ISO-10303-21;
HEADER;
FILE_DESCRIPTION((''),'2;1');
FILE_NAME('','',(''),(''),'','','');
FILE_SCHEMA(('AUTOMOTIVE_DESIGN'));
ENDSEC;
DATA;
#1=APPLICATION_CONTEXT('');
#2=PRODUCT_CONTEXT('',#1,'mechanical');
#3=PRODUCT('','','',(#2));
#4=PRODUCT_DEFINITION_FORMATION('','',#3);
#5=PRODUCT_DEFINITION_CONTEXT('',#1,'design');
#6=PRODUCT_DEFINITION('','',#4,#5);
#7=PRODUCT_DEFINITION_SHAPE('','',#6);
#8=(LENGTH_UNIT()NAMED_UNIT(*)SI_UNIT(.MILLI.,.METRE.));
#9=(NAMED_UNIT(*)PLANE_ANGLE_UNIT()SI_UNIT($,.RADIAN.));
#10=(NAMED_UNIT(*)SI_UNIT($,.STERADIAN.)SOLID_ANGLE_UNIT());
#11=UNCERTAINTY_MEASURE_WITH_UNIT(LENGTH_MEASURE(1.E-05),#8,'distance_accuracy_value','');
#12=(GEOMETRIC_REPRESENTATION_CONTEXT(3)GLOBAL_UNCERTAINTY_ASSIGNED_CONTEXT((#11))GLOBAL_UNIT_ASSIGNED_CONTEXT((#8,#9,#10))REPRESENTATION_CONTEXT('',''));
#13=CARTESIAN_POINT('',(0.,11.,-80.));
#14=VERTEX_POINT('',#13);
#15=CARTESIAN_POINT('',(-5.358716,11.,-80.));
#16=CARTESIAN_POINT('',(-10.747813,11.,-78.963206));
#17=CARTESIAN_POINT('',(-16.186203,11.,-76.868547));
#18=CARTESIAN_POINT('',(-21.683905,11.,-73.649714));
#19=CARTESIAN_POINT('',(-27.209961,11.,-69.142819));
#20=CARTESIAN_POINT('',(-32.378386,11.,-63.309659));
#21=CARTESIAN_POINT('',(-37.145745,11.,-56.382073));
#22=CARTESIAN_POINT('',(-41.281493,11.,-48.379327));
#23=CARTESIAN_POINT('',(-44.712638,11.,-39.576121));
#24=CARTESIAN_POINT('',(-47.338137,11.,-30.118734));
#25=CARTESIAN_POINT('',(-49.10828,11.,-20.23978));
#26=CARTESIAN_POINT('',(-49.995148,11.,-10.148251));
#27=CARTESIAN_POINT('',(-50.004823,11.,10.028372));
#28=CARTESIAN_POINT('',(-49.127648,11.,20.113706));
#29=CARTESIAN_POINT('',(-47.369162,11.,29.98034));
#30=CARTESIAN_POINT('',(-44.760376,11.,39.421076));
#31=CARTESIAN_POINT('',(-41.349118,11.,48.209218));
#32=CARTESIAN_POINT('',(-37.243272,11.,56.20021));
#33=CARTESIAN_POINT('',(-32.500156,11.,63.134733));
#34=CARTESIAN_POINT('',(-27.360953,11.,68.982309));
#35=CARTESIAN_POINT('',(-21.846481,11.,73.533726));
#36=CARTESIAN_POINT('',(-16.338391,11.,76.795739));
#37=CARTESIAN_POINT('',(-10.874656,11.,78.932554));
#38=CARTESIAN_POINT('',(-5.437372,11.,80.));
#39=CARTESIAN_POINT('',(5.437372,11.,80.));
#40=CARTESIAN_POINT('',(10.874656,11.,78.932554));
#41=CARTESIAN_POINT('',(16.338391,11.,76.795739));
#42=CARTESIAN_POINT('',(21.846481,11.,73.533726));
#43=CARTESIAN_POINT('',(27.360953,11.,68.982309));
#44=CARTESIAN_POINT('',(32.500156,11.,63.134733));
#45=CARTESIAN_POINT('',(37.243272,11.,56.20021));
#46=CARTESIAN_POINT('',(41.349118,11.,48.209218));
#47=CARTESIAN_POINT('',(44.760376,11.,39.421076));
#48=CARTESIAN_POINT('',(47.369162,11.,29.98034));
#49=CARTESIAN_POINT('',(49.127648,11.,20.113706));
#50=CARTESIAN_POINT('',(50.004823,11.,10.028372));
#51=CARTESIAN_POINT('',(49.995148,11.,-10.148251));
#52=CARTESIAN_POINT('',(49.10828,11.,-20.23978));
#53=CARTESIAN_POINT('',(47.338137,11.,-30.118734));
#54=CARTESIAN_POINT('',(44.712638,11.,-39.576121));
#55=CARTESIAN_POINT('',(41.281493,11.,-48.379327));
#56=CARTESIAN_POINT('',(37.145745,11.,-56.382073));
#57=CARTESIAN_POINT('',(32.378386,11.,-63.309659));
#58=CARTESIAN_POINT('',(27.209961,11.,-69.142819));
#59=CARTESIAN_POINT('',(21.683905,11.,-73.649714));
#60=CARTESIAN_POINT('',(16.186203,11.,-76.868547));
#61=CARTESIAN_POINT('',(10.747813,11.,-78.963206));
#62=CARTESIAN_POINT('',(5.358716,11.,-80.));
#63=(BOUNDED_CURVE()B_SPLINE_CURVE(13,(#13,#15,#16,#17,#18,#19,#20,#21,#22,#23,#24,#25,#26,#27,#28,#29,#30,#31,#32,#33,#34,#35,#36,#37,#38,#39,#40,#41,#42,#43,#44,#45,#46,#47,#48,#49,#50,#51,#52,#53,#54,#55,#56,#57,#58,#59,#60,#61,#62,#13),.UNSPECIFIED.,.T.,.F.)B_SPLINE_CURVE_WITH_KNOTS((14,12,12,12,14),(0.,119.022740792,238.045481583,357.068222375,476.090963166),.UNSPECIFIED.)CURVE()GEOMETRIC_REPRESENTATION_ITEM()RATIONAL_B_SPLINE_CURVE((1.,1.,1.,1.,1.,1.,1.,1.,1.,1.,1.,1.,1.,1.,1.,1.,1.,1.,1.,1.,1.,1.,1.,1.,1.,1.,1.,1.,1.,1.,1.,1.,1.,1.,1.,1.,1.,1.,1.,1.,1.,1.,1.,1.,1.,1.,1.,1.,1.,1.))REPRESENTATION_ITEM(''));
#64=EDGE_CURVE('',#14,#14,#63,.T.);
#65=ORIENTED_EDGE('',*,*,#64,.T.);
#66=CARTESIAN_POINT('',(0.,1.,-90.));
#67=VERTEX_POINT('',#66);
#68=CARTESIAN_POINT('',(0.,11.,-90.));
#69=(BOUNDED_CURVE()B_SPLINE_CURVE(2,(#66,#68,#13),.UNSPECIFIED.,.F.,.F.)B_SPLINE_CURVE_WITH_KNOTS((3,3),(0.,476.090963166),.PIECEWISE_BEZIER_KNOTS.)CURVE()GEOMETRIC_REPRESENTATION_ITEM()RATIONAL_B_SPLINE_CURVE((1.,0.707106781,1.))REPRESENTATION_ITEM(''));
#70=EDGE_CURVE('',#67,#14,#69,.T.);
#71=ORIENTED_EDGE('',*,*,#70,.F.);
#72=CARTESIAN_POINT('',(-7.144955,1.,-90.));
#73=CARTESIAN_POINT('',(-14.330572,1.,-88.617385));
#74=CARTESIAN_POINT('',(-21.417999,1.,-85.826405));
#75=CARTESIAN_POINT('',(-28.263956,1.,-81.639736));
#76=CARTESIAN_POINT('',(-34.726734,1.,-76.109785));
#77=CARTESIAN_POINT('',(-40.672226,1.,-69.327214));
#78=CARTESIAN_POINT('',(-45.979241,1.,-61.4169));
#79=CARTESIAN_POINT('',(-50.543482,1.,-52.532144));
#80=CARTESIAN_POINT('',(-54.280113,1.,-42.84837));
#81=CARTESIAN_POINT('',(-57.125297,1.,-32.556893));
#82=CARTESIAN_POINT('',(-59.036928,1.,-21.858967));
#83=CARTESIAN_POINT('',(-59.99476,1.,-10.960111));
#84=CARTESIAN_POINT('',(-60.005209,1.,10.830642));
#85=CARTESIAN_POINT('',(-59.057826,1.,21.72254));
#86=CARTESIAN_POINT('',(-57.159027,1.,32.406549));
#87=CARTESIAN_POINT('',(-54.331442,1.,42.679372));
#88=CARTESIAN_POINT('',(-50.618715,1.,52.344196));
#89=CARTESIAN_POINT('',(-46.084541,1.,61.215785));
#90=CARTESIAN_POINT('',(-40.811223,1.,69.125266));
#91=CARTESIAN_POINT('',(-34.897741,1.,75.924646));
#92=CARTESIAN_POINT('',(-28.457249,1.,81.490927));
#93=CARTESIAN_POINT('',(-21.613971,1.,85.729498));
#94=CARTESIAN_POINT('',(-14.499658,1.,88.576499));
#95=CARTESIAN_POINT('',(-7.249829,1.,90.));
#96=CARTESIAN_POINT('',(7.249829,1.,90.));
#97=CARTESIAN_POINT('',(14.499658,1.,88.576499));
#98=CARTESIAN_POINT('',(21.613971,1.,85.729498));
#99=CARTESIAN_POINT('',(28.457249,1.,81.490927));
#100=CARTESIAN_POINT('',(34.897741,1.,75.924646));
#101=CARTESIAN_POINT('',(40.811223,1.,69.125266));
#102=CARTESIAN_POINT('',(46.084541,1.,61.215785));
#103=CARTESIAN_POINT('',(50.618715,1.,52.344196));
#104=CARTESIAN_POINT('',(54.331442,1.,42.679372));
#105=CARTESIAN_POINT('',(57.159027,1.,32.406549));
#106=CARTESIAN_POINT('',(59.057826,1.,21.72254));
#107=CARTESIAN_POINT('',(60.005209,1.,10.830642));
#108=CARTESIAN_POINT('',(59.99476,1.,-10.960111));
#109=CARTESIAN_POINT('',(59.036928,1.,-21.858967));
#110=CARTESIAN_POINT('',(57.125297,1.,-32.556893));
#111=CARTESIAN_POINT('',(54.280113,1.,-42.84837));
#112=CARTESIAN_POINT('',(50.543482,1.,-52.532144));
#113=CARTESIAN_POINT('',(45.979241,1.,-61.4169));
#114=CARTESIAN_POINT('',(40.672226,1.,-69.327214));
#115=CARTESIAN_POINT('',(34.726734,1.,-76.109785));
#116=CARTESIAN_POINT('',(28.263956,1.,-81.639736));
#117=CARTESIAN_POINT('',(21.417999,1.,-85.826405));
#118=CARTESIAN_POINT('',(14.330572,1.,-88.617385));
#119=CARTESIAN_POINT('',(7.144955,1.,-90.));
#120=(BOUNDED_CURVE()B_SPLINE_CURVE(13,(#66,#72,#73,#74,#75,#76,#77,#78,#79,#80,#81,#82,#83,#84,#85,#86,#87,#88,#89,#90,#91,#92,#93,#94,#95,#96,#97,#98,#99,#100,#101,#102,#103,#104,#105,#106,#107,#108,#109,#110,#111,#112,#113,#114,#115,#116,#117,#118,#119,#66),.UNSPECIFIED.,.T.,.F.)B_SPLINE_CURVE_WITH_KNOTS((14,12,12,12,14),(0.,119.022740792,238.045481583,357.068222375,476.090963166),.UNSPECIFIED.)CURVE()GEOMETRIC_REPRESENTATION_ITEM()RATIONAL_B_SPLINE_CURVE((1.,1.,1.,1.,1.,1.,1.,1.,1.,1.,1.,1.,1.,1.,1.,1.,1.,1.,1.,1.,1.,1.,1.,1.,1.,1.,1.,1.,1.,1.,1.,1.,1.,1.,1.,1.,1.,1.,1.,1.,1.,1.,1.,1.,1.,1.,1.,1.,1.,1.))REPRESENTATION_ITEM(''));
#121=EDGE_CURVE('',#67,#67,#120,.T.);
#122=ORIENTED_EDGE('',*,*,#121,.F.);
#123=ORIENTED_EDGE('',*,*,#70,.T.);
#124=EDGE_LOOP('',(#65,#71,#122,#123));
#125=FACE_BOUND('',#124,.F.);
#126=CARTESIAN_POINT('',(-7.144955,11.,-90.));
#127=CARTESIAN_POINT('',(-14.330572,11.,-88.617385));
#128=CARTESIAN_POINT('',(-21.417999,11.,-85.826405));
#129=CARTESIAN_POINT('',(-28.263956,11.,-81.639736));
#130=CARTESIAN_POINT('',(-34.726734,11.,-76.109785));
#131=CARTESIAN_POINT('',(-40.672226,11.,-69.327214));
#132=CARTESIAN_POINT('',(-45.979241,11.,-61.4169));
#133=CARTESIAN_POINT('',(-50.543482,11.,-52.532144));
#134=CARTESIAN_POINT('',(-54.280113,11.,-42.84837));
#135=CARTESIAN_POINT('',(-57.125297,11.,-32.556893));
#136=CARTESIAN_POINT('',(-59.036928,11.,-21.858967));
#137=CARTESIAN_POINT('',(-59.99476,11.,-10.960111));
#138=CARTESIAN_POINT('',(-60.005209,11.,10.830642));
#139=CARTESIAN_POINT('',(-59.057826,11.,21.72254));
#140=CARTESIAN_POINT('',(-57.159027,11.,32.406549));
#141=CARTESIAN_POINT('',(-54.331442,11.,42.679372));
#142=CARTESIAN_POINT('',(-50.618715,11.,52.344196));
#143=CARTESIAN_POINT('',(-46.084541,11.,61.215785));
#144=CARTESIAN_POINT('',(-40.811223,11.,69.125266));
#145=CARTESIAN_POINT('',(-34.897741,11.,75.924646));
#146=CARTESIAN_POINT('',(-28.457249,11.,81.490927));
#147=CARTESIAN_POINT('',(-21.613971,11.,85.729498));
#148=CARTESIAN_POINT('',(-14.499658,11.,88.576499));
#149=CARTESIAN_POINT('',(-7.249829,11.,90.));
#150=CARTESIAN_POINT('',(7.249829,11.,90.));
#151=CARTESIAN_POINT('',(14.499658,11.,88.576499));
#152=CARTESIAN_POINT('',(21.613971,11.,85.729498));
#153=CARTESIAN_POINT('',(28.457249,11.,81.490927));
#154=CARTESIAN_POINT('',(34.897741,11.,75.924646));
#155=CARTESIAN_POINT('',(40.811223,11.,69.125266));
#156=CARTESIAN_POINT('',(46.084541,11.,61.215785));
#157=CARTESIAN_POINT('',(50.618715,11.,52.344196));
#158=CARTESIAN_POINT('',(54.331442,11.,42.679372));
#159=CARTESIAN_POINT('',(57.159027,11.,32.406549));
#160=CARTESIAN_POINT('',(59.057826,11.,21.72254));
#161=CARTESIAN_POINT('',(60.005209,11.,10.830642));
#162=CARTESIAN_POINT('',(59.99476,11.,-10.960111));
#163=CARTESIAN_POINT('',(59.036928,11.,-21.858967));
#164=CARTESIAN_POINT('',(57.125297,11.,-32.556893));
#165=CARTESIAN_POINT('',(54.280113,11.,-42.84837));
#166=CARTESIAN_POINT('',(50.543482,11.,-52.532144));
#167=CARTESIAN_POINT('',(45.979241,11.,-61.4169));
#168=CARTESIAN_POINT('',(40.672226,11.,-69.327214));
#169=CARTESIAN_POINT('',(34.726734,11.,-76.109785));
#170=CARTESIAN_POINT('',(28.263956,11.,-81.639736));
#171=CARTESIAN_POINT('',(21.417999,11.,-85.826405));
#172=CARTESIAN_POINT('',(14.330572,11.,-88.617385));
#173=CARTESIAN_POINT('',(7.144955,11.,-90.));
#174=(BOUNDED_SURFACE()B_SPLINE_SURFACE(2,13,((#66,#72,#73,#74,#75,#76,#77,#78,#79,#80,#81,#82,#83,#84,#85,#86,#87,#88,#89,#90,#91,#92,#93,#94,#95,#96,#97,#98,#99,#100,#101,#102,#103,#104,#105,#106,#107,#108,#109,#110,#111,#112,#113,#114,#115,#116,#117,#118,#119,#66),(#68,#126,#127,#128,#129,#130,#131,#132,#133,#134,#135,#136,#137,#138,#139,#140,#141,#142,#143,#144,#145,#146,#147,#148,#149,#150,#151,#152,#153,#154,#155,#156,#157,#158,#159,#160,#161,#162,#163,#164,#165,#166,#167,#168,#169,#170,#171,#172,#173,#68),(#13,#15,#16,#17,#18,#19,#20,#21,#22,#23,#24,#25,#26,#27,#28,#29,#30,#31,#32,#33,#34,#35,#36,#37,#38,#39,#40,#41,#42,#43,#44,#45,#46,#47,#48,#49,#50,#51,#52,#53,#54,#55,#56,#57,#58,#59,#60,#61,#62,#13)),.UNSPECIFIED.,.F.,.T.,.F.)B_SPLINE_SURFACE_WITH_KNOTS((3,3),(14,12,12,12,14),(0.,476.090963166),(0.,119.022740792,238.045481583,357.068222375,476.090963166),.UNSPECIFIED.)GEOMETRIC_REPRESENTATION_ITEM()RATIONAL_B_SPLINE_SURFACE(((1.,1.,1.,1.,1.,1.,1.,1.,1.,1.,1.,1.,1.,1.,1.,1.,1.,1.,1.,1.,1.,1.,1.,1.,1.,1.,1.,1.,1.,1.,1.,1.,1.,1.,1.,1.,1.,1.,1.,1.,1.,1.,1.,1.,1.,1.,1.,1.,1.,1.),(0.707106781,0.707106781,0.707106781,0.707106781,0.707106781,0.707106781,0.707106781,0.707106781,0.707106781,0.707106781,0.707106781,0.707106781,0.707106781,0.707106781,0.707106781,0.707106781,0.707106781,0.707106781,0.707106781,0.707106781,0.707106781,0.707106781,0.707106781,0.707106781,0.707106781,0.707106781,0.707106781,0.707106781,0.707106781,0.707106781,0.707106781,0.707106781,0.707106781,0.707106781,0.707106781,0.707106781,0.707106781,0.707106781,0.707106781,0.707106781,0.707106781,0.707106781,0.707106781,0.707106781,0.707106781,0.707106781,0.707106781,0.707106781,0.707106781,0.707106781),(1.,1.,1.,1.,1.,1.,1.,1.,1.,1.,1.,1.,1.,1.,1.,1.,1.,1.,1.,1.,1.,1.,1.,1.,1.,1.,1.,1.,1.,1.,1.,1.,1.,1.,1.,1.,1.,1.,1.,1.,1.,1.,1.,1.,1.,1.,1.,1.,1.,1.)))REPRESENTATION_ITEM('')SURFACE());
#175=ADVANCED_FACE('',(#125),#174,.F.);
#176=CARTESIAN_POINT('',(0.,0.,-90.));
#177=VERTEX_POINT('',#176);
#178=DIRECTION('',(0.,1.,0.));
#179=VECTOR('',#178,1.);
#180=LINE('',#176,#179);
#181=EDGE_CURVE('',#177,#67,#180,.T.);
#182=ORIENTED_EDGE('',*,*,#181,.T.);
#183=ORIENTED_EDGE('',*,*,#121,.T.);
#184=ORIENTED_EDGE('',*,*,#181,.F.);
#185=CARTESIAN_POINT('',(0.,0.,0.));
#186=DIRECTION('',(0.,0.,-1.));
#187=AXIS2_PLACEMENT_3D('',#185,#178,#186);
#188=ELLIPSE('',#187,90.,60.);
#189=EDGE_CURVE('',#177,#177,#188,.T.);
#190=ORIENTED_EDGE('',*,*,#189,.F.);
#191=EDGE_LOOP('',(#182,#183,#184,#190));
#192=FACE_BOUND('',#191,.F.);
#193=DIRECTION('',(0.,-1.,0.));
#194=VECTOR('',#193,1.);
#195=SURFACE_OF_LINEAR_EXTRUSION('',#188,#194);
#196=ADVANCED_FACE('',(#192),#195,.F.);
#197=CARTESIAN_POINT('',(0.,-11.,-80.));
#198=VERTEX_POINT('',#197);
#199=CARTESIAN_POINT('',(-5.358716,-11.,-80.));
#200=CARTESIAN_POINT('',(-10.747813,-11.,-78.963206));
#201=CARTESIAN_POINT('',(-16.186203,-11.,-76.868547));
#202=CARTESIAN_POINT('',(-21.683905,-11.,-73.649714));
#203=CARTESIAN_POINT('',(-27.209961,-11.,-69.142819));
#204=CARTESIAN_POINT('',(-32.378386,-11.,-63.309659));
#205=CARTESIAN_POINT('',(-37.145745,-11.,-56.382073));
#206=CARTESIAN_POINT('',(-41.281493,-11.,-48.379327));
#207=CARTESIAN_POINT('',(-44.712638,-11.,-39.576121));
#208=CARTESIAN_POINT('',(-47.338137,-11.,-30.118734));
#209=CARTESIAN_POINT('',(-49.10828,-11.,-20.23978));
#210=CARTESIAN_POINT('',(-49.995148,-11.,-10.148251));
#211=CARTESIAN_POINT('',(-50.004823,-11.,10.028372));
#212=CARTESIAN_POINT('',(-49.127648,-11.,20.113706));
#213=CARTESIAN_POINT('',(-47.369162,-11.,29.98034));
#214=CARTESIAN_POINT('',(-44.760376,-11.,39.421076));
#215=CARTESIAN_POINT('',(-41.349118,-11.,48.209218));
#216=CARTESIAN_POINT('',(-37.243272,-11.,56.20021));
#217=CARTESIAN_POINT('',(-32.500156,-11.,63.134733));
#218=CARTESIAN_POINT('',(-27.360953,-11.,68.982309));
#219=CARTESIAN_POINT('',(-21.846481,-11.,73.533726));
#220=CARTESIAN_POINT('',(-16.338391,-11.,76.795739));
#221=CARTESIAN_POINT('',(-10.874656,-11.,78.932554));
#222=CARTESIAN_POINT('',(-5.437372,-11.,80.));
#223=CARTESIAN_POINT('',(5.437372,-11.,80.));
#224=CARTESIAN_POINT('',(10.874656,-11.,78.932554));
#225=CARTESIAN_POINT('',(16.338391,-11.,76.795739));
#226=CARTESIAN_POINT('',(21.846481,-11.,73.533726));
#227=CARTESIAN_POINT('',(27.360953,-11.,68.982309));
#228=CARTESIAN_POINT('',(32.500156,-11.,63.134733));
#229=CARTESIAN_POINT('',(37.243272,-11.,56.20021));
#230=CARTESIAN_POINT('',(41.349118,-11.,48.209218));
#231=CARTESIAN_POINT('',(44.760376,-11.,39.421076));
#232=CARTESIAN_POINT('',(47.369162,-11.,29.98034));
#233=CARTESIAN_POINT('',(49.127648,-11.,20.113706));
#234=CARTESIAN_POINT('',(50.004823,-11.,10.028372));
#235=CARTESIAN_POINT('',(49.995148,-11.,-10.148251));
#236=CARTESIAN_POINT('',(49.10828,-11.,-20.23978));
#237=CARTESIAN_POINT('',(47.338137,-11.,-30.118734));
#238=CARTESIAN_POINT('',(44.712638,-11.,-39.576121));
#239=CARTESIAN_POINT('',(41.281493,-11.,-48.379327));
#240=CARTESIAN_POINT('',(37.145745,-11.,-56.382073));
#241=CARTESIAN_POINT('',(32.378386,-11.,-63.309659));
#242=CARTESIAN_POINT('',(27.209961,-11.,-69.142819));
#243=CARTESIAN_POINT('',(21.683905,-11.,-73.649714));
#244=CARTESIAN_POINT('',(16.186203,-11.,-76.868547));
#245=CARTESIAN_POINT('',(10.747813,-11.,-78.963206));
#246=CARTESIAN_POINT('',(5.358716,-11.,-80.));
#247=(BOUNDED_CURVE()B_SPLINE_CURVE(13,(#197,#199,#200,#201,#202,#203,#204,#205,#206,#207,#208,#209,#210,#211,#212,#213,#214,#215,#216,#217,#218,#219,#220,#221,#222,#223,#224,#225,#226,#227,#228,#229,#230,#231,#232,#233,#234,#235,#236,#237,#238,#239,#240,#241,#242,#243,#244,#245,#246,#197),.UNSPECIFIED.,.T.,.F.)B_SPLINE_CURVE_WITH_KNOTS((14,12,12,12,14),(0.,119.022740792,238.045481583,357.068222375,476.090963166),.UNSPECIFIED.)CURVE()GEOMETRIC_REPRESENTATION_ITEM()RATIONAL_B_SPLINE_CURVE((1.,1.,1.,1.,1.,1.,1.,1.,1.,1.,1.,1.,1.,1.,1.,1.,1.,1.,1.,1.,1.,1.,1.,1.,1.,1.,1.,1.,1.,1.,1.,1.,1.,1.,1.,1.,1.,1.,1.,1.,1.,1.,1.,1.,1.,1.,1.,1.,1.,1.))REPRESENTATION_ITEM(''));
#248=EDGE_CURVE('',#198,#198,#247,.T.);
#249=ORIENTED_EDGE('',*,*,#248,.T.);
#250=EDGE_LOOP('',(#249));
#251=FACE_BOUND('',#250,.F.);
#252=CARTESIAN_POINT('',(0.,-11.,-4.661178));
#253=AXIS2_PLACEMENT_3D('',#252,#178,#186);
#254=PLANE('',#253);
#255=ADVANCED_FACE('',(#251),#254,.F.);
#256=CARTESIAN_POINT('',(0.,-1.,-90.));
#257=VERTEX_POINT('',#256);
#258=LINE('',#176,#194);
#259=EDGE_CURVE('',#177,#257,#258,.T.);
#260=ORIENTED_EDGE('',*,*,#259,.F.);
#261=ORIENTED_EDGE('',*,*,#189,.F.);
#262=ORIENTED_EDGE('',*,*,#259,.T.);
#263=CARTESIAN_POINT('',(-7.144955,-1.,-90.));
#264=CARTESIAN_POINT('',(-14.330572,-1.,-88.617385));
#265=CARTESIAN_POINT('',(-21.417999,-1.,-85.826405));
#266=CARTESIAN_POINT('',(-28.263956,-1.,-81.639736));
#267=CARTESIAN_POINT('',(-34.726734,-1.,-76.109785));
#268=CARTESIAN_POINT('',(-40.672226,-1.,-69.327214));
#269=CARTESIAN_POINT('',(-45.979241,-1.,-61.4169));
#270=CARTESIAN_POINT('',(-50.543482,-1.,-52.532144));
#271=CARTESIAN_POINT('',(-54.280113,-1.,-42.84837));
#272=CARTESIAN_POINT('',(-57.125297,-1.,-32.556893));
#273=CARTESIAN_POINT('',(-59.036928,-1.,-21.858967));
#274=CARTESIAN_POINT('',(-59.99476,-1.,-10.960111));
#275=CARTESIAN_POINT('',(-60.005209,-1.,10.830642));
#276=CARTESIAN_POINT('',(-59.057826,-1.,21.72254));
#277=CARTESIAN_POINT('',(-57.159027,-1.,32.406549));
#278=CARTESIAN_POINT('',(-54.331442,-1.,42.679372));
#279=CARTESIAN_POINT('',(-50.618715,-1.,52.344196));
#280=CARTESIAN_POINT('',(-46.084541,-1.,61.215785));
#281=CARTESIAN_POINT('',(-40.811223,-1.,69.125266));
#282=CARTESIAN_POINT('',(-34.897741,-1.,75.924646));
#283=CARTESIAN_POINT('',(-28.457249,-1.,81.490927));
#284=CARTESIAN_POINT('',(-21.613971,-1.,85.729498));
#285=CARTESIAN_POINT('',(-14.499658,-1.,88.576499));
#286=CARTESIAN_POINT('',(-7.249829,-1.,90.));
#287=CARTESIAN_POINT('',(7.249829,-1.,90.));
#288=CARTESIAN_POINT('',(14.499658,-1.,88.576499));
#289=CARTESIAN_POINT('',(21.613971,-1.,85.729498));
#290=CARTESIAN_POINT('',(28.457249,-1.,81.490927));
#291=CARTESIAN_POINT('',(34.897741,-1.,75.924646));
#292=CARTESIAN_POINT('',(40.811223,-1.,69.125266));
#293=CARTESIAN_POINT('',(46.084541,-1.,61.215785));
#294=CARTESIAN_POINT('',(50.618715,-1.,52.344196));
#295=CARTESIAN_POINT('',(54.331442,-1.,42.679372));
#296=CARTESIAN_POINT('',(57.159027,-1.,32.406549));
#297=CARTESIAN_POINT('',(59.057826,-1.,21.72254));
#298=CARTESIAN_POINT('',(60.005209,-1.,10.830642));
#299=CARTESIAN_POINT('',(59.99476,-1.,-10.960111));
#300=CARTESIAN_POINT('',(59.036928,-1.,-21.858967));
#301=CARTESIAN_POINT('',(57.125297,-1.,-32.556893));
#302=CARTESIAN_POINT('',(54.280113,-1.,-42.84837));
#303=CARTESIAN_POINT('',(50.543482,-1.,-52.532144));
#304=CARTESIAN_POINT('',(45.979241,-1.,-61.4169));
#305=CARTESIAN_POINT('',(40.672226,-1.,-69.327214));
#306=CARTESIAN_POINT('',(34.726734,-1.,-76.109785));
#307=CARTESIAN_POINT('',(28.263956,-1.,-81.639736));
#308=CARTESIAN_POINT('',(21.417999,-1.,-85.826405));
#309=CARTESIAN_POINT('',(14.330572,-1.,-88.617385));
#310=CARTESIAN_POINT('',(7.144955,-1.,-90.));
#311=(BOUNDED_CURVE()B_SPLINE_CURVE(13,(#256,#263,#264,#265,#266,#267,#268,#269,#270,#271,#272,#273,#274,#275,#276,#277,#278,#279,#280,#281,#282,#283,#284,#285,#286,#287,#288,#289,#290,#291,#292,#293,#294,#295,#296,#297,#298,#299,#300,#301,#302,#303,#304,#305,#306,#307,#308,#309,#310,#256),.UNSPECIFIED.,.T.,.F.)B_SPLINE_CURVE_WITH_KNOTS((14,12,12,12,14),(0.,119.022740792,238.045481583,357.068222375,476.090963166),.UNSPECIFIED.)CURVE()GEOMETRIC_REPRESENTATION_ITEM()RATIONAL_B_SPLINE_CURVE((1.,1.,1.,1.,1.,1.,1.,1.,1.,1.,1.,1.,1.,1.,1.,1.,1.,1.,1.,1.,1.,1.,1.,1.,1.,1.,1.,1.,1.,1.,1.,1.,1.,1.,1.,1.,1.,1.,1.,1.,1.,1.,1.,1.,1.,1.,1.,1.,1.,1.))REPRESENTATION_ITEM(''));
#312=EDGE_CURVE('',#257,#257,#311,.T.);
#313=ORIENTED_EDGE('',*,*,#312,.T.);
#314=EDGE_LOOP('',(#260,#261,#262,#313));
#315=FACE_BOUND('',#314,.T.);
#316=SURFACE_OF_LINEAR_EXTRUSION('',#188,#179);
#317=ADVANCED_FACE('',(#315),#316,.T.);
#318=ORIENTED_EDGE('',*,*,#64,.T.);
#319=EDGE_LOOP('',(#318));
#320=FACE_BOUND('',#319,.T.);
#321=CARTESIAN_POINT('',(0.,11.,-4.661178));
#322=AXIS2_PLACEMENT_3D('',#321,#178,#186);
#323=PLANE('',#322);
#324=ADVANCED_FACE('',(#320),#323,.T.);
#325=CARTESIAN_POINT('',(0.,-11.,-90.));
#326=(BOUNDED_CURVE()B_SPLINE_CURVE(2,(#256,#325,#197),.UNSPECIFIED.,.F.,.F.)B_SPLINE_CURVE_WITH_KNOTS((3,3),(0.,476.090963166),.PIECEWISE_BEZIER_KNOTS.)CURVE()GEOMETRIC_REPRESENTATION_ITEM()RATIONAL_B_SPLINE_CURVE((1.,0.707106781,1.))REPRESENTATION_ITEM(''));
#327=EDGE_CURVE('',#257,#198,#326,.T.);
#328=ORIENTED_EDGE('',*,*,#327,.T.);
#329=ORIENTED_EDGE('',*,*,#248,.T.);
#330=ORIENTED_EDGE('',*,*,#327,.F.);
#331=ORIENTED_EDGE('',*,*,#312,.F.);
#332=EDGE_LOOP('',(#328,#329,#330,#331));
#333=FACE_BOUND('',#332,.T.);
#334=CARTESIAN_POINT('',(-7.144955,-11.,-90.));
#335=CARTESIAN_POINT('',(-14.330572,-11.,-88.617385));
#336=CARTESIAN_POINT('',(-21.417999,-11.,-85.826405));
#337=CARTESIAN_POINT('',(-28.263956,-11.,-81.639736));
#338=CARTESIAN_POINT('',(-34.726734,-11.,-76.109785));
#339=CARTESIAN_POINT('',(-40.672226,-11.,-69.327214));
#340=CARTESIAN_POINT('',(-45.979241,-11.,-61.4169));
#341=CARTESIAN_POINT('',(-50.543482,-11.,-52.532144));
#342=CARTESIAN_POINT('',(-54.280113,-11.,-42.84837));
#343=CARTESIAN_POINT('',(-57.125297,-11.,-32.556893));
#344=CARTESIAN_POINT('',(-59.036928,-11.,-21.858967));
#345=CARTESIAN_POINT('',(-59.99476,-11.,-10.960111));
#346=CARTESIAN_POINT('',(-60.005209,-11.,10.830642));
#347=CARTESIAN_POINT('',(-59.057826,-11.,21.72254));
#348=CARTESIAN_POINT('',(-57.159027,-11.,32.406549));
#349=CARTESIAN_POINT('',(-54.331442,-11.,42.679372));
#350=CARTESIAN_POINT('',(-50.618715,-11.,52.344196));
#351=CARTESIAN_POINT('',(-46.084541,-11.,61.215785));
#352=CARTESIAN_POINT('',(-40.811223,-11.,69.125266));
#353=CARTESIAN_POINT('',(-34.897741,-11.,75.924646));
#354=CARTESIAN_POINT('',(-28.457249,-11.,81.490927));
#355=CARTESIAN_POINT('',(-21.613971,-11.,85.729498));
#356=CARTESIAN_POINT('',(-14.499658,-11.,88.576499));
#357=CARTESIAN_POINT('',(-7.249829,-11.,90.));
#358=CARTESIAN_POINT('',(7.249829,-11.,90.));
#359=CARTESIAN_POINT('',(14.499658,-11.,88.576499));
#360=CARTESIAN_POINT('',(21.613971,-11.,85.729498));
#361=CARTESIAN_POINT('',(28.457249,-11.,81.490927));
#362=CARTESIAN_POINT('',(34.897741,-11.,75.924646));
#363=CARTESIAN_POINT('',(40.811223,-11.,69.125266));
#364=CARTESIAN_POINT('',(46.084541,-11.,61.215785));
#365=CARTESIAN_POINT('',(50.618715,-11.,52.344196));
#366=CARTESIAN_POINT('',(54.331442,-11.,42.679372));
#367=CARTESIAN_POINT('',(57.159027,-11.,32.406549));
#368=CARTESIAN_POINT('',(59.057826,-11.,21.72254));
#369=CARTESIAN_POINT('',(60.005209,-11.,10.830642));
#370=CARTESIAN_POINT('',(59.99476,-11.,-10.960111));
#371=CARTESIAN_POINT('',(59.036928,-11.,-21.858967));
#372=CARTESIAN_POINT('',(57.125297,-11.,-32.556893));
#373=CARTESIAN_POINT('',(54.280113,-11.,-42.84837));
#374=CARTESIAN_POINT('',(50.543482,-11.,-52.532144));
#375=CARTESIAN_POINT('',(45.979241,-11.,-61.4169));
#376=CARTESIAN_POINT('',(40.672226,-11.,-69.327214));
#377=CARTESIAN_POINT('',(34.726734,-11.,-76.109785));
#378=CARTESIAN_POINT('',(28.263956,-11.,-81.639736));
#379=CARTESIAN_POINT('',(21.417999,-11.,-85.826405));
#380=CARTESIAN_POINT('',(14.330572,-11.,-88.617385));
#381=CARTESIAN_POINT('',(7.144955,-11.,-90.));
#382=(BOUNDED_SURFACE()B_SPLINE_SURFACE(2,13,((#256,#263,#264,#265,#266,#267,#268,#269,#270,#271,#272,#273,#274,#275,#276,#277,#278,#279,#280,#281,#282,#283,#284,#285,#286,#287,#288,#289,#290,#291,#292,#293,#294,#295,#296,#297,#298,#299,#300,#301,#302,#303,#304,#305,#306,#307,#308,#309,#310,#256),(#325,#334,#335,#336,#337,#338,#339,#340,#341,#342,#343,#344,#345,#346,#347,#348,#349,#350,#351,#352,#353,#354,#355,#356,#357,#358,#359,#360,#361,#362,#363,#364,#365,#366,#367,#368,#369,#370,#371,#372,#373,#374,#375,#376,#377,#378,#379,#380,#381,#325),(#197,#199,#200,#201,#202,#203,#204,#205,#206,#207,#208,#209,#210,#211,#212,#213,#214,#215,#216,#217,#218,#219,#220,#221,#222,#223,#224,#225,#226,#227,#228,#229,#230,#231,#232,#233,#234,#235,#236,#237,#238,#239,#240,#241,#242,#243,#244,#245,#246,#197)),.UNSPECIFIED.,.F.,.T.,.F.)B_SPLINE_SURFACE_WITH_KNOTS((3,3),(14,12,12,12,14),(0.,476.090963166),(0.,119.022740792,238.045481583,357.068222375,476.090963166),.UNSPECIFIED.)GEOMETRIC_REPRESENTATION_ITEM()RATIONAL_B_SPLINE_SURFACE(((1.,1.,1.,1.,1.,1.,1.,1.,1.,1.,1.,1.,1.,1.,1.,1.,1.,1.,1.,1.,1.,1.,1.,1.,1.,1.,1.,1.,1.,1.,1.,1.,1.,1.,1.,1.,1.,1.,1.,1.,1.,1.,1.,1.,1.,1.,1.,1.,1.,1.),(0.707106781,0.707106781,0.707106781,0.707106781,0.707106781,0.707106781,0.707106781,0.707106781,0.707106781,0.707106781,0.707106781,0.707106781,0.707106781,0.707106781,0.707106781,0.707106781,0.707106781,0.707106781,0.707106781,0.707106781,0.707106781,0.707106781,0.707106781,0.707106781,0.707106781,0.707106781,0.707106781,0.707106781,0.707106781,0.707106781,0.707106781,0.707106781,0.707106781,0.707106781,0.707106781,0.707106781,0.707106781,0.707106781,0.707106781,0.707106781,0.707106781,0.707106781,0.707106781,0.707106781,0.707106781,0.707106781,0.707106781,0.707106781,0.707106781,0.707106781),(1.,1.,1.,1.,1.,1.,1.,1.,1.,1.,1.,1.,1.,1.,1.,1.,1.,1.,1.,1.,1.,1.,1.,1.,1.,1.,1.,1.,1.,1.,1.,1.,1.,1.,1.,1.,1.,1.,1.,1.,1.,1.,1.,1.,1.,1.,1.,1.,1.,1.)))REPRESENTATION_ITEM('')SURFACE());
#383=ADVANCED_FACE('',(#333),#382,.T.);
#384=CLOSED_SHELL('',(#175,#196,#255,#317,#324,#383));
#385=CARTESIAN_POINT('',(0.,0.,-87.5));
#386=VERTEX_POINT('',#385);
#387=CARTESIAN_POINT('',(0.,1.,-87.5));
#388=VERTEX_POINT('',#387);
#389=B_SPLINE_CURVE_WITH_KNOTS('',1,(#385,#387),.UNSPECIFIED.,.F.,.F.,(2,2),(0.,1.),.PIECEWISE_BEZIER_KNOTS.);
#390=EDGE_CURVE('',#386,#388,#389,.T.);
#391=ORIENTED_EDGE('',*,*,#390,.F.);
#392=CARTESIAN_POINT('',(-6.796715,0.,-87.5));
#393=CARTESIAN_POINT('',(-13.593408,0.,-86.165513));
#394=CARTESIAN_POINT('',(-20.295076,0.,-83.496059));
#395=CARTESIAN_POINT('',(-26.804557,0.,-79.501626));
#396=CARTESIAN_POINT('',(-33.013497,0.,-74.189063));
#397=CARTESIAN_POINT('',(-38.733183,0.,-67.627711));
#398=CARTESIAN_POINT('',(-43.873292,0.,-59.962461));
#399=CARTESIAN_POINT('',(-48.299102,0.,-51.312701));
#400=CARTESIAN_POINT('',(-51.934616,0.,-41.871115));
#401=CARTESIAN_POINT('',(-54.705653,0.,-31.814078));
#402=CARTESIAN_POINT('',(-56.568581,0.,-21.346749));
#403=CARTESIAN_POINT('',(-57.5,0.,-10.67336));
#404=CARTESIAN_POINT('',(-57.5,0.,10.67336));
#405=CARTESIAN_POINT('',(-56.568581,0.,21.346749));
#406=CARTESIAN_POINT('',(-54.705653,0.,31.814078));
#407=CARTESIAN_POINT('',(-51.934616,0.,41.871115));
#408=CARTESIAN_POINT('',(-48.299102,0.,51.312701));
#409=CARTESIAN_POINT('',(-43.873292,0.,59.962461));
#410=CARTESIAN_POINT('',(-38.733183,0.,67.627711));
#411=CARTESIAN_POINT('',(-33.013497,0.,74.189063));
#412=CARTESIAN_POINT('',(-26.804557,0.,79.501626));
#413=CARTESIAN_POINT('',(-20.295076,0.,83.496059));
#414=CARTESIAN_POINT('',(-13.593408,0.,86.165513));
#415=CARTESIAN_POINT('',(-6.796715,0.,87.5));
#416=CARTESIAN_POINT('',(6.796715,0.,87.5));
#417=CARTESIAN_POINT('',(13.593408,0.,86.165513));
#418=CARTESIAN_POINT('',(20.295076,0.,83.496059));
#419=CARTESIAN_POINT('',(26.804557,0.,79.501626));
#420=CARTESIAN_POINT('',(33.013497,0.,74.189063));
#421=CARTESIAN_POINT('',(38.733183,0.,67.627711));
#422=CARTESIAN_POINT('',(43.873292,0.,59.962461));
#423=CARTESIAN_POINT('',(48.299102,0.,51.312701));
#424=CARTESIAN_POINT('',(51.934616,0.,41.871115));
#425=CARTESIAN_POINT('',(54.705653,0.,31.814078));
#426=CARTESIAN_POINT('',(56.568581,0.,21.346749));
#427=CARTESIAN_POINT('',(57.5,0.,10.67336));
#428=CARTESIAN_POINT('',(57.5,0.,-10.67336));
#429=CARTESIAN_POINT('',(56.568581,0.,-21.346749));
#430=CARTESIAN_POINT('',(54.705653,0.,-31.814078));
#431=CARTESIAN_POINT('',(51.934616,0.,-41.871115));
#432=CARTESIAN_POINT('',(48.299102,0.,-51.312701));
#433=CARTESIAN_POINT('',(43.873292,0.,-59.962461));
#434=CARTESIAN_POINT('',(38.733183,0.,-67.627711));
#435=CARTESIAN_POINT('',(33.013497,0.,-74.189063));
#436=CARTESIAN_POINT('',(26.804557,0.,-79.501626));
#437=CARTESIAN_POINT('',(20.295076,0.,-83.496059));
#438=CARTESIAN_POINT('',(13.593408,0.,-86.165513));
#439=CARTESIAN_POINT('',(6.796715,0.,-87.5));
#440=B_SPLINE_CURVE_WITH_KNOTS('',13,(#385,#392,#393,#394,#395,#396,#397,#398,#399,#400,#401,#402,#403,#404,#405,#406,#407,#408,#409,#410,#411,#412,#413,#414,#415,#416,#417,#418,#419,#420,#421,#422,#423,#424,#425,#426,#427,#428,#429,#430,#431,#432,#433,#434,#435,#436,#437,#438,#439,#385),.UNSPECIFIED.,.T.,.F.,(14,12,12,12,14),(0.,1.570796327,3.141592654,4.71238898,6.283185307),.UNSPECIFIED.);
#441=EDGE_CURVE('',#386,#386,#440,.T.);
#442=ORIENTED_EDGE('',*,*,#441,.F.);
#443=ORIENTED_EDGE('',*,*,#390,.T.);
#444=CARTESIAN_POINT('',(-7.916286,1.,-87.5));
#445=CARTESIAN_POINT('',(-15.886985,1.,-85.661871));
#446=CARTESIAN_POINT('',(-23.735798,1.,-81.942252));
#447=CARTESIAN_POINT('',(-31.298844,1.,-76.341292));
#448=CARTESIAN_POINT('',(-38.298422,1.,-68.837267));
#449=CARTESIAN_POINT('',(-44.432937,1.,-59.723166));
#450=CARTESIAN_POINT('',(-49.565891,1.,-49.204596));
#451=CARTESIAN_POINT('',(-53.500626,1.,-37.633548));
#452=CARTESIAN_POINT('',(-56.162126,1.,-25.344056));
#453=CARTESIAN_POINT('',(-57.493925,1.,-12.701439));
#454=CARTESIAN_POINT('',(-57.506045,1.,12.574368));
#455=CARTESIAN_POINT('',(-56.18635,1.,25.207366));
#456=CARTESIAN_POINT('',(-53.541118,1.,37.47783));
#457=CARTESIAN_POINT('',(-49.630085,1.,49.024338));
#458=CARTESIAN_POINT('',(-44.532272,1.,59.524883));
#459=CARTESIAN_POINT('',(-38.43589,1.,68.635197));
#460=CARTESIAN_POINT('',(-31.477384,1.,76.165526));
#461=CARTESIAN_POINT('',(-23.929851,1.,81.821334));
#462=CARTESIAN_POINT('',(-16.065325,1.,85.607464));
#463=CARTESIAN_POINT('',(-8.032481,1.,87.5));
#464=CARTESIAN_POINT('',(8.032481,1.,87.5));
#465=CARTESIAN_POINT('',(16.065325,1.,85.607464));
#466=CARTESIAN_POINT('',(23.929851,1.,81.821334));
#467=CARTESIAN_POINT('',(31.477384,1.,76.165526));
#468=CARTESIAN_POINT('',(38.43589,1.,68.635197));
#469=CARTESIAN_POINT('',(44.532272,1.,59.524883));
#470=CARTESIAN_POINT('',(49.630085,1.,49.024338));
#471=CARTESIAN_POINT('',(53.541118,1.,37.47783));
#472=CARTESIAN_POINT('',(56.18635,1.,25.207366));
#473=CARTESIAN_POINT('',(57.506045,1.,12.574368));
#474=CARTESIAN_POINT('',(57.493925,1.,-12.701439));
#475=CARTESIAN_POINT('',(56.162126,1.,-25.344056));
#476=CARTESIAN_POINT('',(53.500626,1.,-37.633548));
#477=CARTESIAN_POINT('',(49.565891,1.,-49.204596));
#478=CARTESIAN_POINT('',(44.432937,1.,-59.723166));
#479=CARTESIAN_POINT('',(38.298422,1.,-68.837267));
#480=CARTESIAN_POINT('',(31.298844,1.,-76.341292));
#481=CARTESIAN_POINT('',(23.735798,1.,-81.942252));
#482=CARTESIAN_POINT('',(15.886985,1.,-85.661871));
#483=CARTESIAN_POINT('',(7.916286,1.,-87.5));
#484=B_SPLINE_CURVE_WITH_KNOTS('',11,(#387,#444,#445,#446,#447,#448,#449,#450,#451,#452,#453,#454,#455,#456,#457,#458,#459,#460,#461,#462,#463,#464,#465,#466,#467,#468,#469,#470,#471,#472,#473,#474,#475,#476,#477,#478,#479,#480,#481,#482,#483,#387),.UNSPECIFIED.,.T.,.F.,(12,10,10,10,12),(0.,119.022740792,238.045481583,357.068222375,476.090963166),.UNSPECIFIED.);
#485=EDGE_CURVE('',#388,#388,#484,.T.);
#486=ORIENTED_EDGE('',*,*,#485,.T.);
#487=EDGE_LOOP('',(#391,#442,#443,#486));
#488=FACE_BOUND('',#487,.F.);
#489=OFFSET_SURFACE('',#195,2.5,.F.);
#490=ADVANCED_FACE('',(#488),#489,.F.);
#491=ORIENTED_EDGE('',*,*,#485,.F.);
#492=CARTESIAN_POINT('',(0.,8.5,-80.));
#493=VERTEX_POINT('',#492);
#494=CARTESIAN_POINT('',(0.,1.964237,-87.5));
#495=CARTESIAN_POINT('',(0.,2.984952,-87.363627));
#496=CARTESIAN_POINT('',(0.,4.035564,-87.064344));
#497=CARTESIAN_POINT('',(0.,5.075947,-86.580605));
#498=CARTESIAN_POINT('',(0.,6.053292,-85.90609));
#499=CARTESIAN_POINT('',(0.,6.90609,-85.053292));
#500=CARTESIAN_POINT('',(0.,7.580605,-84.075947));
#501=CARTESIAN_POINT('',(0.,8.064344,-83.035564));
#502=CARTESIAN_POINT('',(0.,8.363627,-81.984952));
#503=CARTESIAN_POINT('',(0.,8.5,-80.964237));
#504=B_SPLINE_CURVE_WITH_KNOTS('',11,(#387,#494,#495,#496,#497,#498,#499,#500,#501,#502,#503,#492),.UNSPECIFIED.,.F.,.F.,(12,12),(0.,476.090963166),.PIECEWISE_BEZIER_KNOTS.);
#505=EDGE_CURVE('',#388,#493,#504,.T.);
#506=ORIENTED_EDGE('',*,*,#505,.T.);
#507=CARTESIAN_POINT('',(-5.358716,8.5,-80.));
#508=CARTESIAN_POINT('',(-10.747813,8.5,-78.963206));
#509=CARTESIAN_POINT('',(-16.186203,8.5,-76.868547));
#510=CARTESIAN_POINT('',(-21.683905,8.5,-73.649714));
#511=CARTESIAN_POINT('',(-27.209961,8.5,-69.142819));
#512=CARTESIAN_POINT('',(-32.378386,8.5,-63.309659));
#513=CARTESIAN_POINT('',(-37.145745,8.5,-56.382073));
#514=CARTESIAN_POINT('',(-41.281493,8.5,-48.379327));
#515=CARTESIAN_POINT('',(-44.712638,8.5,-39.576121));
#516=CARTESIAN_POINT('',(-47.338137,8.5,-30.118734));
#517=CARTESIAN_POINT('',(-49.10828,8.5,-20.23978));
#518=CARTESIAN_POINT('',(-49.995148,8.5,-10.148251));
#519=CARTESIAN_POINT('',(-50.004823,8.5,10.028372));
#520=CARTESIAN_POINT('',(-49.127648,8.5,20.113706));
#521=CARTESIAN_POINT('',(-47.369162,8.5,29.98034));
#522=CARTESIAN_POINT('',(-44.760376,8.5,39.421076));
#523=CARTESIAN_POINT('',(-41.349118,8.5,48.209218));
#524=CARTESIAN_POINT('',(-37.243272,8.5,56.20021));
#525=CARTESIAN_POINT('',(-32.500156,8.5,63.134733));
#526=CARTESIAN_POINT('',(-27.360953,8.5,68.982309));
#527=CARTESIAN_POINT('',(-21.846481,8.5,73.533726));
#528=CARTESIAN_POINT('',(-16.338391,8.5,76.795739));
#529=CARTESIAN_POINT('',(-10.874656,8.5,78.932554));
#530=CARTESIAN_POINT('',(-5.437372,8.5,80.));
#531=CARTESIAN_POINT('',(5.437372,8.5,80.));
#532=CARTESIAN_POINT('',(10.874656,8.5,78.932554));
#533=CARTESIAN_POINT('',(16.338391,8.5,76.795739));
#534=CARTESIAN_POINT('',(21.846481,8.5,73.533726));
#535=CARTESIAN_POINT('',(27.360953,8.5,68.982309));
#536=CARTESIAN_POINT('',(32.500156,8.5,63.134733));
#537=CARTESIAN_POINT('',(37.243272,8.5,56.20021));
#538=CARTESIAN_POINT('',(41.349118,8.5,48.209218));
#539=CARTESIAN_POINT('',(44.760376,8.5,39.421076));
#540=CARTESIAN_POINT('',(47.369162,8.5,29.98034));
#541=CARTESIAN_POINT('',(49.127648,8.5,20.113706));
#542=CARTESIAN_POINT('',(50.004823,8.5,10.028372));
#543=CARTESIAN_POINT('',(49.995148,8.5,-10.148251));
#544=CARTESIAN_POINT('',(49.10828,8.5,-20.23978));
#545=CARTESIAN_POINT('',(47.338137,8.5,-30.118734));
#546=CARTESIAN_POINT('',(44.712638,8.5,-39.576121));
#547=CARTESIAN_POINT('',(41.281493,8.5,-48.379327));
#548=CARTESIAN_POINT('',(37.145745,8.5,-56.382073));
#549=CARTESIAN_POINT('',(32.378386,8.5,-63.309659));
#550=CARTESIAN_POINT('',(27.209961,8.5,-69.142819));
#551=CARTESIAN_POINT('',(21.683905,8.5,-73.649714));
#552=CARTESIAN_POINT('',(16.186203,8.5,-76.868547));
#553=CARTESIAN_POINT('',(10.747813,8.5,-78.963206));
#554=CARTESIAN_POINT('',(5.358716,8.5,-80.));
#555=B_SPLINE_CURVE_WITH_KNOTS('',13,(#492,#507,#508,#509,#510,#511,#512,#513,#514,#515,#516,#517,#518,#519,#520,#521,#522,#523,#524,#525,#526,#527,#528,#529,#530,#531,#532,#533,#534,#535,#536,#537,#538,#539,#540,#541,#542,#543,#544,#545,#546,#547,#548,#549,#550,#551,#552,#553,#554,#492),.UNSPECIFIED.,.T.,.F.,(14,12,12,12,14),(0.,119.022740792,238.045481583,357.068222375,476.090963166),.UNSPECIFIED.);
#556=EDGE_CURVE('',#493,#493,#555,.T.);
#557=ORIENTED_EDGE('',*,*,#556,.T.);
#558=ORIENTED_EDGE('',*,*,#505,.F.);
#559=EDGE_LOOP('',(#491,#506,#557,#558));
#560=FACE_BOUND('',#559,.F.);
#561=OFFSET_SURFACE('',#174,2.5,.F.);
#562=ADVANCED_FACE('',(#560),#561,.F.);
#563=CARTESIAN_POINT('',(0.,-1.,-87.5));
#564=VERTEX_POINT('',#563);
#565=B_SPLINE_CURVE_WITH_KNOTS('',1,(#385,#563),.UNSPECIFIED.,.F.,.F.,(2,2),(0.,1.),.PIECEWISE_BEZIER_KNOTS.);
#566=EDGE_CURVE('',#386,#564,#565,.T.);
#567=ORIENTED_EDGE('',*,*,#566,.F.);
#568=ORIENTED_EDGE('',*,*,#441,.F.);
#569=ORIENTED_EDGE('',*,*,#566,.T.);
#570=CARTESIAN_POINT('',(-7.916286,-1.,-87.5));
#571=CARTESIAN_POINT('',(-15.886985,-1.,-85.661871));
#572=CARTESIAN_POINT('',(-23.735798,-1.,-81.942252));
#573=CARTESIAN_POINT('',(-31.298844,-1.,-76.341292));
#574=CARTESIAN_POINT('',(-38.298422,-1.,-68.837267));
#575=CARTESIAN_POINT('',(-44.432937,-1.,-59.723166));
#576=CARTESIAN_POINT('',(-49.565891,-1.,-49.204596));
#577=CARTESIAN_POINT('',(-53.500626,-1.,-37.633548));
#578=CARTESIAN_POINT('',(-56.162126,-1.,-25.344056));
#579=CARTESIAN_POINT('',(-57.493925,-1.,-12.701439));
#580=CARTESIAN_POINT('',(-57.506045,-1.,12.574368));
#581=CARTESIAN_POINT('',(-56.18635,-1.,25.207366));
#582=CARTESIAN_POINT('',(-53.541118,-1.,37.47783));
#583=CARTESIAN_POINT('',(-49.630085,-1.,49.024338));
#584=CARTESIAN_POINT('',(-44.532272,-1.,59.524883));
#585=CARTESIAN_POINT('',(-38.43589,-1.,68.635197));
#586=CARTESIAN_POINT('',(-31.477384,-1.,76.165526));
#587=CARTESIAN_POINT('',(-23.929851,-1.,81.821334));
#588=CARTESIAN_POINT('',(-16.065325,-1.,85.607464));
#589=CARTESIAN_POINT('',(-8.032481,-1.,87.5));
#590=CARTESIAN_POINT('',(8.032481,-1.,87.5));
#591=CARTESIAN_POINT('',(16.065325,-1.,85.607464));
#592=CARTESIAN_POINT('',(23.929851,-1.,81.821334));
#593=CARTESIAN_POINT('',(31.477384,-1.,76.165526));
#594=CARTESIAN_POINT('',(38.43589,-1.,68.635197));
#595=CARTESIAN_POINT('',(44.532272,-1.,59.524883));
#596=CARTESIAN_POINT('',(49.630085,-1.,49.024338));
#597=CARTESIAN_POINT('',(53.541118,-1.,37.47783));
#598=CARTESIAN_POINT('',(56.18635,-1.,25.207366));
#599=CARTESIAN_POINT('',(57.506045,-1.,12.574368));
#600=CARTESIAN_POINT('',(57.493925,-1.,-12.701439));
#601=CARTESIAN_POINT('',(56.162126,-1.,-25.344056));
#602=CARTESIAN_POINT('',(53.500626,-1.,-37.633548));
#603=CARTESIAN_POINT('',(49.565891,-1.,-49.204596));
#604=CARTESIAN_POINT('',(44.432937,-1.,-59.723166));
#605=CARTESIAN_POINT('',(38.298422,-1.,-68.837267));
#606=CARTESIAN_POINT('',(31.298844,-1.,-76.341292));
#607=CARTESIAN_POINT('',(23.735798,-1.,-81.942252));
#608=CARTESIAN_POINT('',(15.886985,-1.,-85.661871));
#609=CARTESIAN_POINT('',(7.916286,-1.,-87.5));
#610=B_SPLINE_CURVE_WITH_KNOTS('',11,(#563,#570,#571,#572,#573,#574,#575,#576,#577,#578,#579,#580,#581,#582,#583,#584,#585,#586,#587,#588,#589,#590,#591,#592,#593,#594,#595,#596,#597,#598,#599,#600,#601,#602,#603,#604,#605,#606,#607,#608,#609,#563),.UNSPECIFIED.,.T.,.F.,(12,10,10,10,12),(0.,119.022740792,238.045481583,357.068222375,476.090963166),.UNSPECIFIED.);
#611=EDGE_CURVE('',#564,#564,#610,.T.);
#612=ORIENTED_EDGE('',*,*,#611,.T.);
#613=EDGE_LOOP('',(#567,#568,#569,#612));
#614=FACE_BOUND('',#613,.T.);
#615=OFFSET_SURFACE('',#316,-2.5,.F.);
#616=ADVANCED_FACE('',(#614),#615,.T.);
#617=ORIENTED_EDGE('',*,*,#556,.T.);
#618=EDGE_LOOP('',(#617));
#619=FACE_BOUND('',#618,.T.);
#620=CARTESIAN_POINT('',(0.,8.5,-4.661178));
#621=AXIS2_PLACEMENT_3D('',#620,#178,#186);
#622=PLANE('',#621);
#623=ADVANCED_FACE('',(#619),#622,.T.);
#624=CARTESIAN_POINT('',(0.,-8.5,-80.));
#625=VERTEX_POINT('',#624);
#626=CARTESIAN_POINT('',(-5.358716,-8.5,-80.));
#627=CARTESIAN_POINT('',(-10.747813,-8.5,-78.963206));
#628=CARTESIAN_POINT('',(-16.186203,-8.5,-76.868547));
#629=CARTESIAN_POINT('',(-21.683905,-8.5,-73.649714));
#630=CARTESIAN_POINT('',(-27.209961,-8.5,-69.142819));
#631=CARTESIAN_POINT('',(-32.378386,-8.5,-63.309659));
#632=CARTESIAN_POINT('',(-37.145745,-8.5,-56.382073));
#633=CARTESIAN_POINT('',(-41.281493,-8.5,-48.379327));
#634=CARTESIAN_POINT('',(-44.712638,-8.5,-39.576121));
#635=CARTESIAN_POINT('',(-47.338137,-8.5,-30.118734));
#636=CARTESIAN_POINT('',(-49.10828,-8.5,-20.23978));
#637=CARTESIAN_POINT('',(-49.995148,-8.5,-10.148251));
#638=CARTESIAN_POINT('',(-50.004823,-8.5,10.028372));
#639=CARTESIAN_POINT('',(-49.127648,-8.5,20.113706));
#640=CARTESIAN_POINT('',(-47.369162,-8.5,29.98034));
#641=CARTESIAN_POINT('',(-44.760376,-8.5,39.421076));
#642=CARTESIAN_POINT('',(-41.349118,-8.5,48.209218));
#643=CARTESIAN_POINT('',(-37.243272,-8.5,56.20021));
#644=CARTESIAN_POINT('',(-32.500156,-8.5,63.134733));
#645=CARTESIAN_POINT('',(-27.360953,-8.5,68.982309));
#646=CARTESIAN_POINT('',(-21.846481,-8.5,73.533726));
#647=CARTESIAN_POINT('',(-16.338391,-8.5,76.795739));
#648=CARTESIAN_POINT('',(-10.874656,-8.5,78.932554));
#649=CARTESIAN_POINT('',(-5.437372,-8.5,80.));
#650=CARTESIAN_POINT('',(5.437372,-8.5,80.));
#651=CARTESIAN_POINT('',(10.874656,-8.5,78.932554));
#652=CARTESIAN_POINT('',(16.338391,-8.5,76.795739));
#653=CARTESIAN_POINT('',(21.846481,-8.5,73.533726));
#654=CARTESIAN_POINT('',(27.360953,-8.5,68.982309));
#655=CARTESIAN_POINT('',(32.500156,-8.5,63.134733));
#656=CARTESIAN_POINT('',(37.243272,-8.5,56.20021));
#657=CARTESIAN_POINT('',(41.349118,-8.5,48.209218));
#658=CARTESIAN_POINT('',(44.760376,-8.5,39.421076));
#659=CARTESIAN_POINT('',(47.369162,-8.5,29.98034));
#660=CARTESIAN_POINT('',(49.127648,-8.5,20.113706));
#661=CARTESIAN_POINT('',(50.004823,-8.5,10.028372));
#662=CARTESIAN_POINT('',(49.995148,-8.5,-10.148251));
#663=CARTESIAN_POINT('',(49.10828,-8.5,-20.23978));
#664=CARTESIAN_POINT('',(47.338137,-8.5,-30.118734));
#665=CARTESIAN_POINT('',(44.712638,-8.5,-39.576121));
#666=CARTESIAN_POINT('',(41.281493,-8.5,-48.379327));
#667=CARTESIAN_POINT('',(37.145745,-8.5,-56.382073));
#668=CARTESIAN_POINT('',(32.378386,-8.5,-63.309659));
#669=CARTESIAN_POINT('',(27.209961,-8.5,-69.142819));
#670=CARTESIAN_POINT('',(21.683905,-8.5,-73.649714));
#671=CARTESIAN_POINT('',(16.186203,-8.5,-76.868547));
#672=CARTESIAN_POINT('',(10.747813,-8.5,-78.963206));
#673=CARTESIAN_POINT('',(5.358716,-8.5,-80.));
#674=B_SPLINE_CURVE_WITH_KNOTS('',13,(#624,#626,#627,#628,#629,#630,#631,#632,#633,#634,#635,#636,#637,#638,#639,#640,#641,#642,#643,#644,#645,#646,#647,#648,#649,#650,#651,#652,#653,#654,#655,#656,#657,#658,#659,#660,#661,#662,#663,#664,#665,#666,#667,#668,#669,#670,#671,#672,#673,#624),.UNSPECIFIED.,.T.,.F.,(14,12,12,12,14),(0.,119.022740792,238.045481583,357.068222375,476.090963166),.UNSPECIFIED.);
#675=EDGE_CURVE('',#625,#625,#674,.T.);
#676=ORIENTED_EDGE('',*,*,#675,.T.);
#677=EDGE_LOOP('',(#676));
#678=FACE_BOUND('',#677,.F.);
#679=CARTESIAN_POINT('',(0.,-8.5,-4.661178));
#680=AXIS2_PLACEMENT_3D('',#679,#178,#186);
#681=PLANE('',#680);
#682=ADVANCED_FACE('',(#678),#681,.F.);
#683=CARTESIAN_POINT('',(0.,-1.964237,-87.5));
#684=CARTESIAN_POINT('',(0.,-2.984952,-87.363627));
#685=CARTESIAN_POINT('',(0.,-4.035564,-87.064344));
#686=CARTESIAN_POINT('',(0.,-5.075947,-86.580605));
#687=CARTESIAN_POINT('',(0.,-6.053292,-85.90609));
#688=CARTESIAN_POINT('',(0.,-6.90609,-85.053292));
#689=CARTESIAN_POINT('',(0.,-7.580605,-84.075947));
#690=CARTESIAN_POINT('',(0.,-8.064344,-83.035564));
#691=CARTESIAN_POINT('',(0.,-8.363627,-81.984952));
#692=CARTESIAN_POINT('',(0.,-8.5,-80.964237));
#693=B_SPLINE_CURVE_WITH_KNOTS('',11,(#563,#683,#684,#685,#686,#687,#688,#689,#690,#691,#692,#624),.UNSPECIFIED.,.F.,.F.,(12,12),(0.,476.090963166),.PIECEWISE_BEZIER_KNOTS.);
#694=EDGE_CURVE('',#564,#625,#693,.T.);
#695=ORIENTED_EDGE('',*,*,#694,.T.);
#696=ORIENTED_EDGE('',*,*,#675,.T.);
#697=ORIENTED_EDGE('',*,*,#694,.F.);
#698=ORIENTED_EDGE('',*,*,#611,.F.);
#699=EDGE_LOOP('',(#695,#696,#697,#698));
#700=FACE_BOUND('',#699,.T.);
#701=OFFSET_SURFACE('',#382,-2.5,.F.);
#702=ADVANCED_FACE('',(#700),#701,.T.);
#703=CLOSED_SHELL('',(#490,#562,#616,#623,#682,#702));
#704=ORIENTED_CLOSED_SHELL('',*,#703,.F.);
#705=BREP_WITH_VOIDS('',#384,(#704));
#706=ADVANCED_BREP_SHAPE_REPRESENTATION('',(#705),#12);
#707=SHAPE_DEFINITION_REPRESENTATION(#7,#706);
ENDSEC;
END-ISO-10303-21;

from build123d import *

# Parameters (mm, degrees)
SKETCH1_RX          = 90
SKETCH1_RY          = 60
BOSS_EXTRUDE3_DEPTH = 11
FILLET1_R           = 10
SHELL4_T            = 2.5


with BuildPart() as part:
    # Sketch1 → Boss-Extrude3 (new, symmetric)
    with BuildSketch(Plane(origin=(0, 0, 0), x_dir=(1, 0, 0), z_dir=(0, 1, 0))):
        with Locations(Location((0, 0), (0, 0, 90))):
            Ellipse(SKETCH1_RX, SKETCH1_RY)
    extrude(amount=BOSS_EXTRUDE3_DEPTH, both=True)

    # Fillet1
    fillet1_edges = [part.edges().sort_by_distance(p)[0] for p in [
        (0.063886799, -11, 89.999948981),
        (0.063886799, 11, 89.999948981),
    ]]
    fillet(fillet1_edges, radius=FILLET1_R)

    # Shell4 (no face opened: a closed hollow body)
    add(offset(amount=-SHELL4_T, mode=Mode.PRIVATE), mode=Mode.SUBTRACT)


solid = part.part
